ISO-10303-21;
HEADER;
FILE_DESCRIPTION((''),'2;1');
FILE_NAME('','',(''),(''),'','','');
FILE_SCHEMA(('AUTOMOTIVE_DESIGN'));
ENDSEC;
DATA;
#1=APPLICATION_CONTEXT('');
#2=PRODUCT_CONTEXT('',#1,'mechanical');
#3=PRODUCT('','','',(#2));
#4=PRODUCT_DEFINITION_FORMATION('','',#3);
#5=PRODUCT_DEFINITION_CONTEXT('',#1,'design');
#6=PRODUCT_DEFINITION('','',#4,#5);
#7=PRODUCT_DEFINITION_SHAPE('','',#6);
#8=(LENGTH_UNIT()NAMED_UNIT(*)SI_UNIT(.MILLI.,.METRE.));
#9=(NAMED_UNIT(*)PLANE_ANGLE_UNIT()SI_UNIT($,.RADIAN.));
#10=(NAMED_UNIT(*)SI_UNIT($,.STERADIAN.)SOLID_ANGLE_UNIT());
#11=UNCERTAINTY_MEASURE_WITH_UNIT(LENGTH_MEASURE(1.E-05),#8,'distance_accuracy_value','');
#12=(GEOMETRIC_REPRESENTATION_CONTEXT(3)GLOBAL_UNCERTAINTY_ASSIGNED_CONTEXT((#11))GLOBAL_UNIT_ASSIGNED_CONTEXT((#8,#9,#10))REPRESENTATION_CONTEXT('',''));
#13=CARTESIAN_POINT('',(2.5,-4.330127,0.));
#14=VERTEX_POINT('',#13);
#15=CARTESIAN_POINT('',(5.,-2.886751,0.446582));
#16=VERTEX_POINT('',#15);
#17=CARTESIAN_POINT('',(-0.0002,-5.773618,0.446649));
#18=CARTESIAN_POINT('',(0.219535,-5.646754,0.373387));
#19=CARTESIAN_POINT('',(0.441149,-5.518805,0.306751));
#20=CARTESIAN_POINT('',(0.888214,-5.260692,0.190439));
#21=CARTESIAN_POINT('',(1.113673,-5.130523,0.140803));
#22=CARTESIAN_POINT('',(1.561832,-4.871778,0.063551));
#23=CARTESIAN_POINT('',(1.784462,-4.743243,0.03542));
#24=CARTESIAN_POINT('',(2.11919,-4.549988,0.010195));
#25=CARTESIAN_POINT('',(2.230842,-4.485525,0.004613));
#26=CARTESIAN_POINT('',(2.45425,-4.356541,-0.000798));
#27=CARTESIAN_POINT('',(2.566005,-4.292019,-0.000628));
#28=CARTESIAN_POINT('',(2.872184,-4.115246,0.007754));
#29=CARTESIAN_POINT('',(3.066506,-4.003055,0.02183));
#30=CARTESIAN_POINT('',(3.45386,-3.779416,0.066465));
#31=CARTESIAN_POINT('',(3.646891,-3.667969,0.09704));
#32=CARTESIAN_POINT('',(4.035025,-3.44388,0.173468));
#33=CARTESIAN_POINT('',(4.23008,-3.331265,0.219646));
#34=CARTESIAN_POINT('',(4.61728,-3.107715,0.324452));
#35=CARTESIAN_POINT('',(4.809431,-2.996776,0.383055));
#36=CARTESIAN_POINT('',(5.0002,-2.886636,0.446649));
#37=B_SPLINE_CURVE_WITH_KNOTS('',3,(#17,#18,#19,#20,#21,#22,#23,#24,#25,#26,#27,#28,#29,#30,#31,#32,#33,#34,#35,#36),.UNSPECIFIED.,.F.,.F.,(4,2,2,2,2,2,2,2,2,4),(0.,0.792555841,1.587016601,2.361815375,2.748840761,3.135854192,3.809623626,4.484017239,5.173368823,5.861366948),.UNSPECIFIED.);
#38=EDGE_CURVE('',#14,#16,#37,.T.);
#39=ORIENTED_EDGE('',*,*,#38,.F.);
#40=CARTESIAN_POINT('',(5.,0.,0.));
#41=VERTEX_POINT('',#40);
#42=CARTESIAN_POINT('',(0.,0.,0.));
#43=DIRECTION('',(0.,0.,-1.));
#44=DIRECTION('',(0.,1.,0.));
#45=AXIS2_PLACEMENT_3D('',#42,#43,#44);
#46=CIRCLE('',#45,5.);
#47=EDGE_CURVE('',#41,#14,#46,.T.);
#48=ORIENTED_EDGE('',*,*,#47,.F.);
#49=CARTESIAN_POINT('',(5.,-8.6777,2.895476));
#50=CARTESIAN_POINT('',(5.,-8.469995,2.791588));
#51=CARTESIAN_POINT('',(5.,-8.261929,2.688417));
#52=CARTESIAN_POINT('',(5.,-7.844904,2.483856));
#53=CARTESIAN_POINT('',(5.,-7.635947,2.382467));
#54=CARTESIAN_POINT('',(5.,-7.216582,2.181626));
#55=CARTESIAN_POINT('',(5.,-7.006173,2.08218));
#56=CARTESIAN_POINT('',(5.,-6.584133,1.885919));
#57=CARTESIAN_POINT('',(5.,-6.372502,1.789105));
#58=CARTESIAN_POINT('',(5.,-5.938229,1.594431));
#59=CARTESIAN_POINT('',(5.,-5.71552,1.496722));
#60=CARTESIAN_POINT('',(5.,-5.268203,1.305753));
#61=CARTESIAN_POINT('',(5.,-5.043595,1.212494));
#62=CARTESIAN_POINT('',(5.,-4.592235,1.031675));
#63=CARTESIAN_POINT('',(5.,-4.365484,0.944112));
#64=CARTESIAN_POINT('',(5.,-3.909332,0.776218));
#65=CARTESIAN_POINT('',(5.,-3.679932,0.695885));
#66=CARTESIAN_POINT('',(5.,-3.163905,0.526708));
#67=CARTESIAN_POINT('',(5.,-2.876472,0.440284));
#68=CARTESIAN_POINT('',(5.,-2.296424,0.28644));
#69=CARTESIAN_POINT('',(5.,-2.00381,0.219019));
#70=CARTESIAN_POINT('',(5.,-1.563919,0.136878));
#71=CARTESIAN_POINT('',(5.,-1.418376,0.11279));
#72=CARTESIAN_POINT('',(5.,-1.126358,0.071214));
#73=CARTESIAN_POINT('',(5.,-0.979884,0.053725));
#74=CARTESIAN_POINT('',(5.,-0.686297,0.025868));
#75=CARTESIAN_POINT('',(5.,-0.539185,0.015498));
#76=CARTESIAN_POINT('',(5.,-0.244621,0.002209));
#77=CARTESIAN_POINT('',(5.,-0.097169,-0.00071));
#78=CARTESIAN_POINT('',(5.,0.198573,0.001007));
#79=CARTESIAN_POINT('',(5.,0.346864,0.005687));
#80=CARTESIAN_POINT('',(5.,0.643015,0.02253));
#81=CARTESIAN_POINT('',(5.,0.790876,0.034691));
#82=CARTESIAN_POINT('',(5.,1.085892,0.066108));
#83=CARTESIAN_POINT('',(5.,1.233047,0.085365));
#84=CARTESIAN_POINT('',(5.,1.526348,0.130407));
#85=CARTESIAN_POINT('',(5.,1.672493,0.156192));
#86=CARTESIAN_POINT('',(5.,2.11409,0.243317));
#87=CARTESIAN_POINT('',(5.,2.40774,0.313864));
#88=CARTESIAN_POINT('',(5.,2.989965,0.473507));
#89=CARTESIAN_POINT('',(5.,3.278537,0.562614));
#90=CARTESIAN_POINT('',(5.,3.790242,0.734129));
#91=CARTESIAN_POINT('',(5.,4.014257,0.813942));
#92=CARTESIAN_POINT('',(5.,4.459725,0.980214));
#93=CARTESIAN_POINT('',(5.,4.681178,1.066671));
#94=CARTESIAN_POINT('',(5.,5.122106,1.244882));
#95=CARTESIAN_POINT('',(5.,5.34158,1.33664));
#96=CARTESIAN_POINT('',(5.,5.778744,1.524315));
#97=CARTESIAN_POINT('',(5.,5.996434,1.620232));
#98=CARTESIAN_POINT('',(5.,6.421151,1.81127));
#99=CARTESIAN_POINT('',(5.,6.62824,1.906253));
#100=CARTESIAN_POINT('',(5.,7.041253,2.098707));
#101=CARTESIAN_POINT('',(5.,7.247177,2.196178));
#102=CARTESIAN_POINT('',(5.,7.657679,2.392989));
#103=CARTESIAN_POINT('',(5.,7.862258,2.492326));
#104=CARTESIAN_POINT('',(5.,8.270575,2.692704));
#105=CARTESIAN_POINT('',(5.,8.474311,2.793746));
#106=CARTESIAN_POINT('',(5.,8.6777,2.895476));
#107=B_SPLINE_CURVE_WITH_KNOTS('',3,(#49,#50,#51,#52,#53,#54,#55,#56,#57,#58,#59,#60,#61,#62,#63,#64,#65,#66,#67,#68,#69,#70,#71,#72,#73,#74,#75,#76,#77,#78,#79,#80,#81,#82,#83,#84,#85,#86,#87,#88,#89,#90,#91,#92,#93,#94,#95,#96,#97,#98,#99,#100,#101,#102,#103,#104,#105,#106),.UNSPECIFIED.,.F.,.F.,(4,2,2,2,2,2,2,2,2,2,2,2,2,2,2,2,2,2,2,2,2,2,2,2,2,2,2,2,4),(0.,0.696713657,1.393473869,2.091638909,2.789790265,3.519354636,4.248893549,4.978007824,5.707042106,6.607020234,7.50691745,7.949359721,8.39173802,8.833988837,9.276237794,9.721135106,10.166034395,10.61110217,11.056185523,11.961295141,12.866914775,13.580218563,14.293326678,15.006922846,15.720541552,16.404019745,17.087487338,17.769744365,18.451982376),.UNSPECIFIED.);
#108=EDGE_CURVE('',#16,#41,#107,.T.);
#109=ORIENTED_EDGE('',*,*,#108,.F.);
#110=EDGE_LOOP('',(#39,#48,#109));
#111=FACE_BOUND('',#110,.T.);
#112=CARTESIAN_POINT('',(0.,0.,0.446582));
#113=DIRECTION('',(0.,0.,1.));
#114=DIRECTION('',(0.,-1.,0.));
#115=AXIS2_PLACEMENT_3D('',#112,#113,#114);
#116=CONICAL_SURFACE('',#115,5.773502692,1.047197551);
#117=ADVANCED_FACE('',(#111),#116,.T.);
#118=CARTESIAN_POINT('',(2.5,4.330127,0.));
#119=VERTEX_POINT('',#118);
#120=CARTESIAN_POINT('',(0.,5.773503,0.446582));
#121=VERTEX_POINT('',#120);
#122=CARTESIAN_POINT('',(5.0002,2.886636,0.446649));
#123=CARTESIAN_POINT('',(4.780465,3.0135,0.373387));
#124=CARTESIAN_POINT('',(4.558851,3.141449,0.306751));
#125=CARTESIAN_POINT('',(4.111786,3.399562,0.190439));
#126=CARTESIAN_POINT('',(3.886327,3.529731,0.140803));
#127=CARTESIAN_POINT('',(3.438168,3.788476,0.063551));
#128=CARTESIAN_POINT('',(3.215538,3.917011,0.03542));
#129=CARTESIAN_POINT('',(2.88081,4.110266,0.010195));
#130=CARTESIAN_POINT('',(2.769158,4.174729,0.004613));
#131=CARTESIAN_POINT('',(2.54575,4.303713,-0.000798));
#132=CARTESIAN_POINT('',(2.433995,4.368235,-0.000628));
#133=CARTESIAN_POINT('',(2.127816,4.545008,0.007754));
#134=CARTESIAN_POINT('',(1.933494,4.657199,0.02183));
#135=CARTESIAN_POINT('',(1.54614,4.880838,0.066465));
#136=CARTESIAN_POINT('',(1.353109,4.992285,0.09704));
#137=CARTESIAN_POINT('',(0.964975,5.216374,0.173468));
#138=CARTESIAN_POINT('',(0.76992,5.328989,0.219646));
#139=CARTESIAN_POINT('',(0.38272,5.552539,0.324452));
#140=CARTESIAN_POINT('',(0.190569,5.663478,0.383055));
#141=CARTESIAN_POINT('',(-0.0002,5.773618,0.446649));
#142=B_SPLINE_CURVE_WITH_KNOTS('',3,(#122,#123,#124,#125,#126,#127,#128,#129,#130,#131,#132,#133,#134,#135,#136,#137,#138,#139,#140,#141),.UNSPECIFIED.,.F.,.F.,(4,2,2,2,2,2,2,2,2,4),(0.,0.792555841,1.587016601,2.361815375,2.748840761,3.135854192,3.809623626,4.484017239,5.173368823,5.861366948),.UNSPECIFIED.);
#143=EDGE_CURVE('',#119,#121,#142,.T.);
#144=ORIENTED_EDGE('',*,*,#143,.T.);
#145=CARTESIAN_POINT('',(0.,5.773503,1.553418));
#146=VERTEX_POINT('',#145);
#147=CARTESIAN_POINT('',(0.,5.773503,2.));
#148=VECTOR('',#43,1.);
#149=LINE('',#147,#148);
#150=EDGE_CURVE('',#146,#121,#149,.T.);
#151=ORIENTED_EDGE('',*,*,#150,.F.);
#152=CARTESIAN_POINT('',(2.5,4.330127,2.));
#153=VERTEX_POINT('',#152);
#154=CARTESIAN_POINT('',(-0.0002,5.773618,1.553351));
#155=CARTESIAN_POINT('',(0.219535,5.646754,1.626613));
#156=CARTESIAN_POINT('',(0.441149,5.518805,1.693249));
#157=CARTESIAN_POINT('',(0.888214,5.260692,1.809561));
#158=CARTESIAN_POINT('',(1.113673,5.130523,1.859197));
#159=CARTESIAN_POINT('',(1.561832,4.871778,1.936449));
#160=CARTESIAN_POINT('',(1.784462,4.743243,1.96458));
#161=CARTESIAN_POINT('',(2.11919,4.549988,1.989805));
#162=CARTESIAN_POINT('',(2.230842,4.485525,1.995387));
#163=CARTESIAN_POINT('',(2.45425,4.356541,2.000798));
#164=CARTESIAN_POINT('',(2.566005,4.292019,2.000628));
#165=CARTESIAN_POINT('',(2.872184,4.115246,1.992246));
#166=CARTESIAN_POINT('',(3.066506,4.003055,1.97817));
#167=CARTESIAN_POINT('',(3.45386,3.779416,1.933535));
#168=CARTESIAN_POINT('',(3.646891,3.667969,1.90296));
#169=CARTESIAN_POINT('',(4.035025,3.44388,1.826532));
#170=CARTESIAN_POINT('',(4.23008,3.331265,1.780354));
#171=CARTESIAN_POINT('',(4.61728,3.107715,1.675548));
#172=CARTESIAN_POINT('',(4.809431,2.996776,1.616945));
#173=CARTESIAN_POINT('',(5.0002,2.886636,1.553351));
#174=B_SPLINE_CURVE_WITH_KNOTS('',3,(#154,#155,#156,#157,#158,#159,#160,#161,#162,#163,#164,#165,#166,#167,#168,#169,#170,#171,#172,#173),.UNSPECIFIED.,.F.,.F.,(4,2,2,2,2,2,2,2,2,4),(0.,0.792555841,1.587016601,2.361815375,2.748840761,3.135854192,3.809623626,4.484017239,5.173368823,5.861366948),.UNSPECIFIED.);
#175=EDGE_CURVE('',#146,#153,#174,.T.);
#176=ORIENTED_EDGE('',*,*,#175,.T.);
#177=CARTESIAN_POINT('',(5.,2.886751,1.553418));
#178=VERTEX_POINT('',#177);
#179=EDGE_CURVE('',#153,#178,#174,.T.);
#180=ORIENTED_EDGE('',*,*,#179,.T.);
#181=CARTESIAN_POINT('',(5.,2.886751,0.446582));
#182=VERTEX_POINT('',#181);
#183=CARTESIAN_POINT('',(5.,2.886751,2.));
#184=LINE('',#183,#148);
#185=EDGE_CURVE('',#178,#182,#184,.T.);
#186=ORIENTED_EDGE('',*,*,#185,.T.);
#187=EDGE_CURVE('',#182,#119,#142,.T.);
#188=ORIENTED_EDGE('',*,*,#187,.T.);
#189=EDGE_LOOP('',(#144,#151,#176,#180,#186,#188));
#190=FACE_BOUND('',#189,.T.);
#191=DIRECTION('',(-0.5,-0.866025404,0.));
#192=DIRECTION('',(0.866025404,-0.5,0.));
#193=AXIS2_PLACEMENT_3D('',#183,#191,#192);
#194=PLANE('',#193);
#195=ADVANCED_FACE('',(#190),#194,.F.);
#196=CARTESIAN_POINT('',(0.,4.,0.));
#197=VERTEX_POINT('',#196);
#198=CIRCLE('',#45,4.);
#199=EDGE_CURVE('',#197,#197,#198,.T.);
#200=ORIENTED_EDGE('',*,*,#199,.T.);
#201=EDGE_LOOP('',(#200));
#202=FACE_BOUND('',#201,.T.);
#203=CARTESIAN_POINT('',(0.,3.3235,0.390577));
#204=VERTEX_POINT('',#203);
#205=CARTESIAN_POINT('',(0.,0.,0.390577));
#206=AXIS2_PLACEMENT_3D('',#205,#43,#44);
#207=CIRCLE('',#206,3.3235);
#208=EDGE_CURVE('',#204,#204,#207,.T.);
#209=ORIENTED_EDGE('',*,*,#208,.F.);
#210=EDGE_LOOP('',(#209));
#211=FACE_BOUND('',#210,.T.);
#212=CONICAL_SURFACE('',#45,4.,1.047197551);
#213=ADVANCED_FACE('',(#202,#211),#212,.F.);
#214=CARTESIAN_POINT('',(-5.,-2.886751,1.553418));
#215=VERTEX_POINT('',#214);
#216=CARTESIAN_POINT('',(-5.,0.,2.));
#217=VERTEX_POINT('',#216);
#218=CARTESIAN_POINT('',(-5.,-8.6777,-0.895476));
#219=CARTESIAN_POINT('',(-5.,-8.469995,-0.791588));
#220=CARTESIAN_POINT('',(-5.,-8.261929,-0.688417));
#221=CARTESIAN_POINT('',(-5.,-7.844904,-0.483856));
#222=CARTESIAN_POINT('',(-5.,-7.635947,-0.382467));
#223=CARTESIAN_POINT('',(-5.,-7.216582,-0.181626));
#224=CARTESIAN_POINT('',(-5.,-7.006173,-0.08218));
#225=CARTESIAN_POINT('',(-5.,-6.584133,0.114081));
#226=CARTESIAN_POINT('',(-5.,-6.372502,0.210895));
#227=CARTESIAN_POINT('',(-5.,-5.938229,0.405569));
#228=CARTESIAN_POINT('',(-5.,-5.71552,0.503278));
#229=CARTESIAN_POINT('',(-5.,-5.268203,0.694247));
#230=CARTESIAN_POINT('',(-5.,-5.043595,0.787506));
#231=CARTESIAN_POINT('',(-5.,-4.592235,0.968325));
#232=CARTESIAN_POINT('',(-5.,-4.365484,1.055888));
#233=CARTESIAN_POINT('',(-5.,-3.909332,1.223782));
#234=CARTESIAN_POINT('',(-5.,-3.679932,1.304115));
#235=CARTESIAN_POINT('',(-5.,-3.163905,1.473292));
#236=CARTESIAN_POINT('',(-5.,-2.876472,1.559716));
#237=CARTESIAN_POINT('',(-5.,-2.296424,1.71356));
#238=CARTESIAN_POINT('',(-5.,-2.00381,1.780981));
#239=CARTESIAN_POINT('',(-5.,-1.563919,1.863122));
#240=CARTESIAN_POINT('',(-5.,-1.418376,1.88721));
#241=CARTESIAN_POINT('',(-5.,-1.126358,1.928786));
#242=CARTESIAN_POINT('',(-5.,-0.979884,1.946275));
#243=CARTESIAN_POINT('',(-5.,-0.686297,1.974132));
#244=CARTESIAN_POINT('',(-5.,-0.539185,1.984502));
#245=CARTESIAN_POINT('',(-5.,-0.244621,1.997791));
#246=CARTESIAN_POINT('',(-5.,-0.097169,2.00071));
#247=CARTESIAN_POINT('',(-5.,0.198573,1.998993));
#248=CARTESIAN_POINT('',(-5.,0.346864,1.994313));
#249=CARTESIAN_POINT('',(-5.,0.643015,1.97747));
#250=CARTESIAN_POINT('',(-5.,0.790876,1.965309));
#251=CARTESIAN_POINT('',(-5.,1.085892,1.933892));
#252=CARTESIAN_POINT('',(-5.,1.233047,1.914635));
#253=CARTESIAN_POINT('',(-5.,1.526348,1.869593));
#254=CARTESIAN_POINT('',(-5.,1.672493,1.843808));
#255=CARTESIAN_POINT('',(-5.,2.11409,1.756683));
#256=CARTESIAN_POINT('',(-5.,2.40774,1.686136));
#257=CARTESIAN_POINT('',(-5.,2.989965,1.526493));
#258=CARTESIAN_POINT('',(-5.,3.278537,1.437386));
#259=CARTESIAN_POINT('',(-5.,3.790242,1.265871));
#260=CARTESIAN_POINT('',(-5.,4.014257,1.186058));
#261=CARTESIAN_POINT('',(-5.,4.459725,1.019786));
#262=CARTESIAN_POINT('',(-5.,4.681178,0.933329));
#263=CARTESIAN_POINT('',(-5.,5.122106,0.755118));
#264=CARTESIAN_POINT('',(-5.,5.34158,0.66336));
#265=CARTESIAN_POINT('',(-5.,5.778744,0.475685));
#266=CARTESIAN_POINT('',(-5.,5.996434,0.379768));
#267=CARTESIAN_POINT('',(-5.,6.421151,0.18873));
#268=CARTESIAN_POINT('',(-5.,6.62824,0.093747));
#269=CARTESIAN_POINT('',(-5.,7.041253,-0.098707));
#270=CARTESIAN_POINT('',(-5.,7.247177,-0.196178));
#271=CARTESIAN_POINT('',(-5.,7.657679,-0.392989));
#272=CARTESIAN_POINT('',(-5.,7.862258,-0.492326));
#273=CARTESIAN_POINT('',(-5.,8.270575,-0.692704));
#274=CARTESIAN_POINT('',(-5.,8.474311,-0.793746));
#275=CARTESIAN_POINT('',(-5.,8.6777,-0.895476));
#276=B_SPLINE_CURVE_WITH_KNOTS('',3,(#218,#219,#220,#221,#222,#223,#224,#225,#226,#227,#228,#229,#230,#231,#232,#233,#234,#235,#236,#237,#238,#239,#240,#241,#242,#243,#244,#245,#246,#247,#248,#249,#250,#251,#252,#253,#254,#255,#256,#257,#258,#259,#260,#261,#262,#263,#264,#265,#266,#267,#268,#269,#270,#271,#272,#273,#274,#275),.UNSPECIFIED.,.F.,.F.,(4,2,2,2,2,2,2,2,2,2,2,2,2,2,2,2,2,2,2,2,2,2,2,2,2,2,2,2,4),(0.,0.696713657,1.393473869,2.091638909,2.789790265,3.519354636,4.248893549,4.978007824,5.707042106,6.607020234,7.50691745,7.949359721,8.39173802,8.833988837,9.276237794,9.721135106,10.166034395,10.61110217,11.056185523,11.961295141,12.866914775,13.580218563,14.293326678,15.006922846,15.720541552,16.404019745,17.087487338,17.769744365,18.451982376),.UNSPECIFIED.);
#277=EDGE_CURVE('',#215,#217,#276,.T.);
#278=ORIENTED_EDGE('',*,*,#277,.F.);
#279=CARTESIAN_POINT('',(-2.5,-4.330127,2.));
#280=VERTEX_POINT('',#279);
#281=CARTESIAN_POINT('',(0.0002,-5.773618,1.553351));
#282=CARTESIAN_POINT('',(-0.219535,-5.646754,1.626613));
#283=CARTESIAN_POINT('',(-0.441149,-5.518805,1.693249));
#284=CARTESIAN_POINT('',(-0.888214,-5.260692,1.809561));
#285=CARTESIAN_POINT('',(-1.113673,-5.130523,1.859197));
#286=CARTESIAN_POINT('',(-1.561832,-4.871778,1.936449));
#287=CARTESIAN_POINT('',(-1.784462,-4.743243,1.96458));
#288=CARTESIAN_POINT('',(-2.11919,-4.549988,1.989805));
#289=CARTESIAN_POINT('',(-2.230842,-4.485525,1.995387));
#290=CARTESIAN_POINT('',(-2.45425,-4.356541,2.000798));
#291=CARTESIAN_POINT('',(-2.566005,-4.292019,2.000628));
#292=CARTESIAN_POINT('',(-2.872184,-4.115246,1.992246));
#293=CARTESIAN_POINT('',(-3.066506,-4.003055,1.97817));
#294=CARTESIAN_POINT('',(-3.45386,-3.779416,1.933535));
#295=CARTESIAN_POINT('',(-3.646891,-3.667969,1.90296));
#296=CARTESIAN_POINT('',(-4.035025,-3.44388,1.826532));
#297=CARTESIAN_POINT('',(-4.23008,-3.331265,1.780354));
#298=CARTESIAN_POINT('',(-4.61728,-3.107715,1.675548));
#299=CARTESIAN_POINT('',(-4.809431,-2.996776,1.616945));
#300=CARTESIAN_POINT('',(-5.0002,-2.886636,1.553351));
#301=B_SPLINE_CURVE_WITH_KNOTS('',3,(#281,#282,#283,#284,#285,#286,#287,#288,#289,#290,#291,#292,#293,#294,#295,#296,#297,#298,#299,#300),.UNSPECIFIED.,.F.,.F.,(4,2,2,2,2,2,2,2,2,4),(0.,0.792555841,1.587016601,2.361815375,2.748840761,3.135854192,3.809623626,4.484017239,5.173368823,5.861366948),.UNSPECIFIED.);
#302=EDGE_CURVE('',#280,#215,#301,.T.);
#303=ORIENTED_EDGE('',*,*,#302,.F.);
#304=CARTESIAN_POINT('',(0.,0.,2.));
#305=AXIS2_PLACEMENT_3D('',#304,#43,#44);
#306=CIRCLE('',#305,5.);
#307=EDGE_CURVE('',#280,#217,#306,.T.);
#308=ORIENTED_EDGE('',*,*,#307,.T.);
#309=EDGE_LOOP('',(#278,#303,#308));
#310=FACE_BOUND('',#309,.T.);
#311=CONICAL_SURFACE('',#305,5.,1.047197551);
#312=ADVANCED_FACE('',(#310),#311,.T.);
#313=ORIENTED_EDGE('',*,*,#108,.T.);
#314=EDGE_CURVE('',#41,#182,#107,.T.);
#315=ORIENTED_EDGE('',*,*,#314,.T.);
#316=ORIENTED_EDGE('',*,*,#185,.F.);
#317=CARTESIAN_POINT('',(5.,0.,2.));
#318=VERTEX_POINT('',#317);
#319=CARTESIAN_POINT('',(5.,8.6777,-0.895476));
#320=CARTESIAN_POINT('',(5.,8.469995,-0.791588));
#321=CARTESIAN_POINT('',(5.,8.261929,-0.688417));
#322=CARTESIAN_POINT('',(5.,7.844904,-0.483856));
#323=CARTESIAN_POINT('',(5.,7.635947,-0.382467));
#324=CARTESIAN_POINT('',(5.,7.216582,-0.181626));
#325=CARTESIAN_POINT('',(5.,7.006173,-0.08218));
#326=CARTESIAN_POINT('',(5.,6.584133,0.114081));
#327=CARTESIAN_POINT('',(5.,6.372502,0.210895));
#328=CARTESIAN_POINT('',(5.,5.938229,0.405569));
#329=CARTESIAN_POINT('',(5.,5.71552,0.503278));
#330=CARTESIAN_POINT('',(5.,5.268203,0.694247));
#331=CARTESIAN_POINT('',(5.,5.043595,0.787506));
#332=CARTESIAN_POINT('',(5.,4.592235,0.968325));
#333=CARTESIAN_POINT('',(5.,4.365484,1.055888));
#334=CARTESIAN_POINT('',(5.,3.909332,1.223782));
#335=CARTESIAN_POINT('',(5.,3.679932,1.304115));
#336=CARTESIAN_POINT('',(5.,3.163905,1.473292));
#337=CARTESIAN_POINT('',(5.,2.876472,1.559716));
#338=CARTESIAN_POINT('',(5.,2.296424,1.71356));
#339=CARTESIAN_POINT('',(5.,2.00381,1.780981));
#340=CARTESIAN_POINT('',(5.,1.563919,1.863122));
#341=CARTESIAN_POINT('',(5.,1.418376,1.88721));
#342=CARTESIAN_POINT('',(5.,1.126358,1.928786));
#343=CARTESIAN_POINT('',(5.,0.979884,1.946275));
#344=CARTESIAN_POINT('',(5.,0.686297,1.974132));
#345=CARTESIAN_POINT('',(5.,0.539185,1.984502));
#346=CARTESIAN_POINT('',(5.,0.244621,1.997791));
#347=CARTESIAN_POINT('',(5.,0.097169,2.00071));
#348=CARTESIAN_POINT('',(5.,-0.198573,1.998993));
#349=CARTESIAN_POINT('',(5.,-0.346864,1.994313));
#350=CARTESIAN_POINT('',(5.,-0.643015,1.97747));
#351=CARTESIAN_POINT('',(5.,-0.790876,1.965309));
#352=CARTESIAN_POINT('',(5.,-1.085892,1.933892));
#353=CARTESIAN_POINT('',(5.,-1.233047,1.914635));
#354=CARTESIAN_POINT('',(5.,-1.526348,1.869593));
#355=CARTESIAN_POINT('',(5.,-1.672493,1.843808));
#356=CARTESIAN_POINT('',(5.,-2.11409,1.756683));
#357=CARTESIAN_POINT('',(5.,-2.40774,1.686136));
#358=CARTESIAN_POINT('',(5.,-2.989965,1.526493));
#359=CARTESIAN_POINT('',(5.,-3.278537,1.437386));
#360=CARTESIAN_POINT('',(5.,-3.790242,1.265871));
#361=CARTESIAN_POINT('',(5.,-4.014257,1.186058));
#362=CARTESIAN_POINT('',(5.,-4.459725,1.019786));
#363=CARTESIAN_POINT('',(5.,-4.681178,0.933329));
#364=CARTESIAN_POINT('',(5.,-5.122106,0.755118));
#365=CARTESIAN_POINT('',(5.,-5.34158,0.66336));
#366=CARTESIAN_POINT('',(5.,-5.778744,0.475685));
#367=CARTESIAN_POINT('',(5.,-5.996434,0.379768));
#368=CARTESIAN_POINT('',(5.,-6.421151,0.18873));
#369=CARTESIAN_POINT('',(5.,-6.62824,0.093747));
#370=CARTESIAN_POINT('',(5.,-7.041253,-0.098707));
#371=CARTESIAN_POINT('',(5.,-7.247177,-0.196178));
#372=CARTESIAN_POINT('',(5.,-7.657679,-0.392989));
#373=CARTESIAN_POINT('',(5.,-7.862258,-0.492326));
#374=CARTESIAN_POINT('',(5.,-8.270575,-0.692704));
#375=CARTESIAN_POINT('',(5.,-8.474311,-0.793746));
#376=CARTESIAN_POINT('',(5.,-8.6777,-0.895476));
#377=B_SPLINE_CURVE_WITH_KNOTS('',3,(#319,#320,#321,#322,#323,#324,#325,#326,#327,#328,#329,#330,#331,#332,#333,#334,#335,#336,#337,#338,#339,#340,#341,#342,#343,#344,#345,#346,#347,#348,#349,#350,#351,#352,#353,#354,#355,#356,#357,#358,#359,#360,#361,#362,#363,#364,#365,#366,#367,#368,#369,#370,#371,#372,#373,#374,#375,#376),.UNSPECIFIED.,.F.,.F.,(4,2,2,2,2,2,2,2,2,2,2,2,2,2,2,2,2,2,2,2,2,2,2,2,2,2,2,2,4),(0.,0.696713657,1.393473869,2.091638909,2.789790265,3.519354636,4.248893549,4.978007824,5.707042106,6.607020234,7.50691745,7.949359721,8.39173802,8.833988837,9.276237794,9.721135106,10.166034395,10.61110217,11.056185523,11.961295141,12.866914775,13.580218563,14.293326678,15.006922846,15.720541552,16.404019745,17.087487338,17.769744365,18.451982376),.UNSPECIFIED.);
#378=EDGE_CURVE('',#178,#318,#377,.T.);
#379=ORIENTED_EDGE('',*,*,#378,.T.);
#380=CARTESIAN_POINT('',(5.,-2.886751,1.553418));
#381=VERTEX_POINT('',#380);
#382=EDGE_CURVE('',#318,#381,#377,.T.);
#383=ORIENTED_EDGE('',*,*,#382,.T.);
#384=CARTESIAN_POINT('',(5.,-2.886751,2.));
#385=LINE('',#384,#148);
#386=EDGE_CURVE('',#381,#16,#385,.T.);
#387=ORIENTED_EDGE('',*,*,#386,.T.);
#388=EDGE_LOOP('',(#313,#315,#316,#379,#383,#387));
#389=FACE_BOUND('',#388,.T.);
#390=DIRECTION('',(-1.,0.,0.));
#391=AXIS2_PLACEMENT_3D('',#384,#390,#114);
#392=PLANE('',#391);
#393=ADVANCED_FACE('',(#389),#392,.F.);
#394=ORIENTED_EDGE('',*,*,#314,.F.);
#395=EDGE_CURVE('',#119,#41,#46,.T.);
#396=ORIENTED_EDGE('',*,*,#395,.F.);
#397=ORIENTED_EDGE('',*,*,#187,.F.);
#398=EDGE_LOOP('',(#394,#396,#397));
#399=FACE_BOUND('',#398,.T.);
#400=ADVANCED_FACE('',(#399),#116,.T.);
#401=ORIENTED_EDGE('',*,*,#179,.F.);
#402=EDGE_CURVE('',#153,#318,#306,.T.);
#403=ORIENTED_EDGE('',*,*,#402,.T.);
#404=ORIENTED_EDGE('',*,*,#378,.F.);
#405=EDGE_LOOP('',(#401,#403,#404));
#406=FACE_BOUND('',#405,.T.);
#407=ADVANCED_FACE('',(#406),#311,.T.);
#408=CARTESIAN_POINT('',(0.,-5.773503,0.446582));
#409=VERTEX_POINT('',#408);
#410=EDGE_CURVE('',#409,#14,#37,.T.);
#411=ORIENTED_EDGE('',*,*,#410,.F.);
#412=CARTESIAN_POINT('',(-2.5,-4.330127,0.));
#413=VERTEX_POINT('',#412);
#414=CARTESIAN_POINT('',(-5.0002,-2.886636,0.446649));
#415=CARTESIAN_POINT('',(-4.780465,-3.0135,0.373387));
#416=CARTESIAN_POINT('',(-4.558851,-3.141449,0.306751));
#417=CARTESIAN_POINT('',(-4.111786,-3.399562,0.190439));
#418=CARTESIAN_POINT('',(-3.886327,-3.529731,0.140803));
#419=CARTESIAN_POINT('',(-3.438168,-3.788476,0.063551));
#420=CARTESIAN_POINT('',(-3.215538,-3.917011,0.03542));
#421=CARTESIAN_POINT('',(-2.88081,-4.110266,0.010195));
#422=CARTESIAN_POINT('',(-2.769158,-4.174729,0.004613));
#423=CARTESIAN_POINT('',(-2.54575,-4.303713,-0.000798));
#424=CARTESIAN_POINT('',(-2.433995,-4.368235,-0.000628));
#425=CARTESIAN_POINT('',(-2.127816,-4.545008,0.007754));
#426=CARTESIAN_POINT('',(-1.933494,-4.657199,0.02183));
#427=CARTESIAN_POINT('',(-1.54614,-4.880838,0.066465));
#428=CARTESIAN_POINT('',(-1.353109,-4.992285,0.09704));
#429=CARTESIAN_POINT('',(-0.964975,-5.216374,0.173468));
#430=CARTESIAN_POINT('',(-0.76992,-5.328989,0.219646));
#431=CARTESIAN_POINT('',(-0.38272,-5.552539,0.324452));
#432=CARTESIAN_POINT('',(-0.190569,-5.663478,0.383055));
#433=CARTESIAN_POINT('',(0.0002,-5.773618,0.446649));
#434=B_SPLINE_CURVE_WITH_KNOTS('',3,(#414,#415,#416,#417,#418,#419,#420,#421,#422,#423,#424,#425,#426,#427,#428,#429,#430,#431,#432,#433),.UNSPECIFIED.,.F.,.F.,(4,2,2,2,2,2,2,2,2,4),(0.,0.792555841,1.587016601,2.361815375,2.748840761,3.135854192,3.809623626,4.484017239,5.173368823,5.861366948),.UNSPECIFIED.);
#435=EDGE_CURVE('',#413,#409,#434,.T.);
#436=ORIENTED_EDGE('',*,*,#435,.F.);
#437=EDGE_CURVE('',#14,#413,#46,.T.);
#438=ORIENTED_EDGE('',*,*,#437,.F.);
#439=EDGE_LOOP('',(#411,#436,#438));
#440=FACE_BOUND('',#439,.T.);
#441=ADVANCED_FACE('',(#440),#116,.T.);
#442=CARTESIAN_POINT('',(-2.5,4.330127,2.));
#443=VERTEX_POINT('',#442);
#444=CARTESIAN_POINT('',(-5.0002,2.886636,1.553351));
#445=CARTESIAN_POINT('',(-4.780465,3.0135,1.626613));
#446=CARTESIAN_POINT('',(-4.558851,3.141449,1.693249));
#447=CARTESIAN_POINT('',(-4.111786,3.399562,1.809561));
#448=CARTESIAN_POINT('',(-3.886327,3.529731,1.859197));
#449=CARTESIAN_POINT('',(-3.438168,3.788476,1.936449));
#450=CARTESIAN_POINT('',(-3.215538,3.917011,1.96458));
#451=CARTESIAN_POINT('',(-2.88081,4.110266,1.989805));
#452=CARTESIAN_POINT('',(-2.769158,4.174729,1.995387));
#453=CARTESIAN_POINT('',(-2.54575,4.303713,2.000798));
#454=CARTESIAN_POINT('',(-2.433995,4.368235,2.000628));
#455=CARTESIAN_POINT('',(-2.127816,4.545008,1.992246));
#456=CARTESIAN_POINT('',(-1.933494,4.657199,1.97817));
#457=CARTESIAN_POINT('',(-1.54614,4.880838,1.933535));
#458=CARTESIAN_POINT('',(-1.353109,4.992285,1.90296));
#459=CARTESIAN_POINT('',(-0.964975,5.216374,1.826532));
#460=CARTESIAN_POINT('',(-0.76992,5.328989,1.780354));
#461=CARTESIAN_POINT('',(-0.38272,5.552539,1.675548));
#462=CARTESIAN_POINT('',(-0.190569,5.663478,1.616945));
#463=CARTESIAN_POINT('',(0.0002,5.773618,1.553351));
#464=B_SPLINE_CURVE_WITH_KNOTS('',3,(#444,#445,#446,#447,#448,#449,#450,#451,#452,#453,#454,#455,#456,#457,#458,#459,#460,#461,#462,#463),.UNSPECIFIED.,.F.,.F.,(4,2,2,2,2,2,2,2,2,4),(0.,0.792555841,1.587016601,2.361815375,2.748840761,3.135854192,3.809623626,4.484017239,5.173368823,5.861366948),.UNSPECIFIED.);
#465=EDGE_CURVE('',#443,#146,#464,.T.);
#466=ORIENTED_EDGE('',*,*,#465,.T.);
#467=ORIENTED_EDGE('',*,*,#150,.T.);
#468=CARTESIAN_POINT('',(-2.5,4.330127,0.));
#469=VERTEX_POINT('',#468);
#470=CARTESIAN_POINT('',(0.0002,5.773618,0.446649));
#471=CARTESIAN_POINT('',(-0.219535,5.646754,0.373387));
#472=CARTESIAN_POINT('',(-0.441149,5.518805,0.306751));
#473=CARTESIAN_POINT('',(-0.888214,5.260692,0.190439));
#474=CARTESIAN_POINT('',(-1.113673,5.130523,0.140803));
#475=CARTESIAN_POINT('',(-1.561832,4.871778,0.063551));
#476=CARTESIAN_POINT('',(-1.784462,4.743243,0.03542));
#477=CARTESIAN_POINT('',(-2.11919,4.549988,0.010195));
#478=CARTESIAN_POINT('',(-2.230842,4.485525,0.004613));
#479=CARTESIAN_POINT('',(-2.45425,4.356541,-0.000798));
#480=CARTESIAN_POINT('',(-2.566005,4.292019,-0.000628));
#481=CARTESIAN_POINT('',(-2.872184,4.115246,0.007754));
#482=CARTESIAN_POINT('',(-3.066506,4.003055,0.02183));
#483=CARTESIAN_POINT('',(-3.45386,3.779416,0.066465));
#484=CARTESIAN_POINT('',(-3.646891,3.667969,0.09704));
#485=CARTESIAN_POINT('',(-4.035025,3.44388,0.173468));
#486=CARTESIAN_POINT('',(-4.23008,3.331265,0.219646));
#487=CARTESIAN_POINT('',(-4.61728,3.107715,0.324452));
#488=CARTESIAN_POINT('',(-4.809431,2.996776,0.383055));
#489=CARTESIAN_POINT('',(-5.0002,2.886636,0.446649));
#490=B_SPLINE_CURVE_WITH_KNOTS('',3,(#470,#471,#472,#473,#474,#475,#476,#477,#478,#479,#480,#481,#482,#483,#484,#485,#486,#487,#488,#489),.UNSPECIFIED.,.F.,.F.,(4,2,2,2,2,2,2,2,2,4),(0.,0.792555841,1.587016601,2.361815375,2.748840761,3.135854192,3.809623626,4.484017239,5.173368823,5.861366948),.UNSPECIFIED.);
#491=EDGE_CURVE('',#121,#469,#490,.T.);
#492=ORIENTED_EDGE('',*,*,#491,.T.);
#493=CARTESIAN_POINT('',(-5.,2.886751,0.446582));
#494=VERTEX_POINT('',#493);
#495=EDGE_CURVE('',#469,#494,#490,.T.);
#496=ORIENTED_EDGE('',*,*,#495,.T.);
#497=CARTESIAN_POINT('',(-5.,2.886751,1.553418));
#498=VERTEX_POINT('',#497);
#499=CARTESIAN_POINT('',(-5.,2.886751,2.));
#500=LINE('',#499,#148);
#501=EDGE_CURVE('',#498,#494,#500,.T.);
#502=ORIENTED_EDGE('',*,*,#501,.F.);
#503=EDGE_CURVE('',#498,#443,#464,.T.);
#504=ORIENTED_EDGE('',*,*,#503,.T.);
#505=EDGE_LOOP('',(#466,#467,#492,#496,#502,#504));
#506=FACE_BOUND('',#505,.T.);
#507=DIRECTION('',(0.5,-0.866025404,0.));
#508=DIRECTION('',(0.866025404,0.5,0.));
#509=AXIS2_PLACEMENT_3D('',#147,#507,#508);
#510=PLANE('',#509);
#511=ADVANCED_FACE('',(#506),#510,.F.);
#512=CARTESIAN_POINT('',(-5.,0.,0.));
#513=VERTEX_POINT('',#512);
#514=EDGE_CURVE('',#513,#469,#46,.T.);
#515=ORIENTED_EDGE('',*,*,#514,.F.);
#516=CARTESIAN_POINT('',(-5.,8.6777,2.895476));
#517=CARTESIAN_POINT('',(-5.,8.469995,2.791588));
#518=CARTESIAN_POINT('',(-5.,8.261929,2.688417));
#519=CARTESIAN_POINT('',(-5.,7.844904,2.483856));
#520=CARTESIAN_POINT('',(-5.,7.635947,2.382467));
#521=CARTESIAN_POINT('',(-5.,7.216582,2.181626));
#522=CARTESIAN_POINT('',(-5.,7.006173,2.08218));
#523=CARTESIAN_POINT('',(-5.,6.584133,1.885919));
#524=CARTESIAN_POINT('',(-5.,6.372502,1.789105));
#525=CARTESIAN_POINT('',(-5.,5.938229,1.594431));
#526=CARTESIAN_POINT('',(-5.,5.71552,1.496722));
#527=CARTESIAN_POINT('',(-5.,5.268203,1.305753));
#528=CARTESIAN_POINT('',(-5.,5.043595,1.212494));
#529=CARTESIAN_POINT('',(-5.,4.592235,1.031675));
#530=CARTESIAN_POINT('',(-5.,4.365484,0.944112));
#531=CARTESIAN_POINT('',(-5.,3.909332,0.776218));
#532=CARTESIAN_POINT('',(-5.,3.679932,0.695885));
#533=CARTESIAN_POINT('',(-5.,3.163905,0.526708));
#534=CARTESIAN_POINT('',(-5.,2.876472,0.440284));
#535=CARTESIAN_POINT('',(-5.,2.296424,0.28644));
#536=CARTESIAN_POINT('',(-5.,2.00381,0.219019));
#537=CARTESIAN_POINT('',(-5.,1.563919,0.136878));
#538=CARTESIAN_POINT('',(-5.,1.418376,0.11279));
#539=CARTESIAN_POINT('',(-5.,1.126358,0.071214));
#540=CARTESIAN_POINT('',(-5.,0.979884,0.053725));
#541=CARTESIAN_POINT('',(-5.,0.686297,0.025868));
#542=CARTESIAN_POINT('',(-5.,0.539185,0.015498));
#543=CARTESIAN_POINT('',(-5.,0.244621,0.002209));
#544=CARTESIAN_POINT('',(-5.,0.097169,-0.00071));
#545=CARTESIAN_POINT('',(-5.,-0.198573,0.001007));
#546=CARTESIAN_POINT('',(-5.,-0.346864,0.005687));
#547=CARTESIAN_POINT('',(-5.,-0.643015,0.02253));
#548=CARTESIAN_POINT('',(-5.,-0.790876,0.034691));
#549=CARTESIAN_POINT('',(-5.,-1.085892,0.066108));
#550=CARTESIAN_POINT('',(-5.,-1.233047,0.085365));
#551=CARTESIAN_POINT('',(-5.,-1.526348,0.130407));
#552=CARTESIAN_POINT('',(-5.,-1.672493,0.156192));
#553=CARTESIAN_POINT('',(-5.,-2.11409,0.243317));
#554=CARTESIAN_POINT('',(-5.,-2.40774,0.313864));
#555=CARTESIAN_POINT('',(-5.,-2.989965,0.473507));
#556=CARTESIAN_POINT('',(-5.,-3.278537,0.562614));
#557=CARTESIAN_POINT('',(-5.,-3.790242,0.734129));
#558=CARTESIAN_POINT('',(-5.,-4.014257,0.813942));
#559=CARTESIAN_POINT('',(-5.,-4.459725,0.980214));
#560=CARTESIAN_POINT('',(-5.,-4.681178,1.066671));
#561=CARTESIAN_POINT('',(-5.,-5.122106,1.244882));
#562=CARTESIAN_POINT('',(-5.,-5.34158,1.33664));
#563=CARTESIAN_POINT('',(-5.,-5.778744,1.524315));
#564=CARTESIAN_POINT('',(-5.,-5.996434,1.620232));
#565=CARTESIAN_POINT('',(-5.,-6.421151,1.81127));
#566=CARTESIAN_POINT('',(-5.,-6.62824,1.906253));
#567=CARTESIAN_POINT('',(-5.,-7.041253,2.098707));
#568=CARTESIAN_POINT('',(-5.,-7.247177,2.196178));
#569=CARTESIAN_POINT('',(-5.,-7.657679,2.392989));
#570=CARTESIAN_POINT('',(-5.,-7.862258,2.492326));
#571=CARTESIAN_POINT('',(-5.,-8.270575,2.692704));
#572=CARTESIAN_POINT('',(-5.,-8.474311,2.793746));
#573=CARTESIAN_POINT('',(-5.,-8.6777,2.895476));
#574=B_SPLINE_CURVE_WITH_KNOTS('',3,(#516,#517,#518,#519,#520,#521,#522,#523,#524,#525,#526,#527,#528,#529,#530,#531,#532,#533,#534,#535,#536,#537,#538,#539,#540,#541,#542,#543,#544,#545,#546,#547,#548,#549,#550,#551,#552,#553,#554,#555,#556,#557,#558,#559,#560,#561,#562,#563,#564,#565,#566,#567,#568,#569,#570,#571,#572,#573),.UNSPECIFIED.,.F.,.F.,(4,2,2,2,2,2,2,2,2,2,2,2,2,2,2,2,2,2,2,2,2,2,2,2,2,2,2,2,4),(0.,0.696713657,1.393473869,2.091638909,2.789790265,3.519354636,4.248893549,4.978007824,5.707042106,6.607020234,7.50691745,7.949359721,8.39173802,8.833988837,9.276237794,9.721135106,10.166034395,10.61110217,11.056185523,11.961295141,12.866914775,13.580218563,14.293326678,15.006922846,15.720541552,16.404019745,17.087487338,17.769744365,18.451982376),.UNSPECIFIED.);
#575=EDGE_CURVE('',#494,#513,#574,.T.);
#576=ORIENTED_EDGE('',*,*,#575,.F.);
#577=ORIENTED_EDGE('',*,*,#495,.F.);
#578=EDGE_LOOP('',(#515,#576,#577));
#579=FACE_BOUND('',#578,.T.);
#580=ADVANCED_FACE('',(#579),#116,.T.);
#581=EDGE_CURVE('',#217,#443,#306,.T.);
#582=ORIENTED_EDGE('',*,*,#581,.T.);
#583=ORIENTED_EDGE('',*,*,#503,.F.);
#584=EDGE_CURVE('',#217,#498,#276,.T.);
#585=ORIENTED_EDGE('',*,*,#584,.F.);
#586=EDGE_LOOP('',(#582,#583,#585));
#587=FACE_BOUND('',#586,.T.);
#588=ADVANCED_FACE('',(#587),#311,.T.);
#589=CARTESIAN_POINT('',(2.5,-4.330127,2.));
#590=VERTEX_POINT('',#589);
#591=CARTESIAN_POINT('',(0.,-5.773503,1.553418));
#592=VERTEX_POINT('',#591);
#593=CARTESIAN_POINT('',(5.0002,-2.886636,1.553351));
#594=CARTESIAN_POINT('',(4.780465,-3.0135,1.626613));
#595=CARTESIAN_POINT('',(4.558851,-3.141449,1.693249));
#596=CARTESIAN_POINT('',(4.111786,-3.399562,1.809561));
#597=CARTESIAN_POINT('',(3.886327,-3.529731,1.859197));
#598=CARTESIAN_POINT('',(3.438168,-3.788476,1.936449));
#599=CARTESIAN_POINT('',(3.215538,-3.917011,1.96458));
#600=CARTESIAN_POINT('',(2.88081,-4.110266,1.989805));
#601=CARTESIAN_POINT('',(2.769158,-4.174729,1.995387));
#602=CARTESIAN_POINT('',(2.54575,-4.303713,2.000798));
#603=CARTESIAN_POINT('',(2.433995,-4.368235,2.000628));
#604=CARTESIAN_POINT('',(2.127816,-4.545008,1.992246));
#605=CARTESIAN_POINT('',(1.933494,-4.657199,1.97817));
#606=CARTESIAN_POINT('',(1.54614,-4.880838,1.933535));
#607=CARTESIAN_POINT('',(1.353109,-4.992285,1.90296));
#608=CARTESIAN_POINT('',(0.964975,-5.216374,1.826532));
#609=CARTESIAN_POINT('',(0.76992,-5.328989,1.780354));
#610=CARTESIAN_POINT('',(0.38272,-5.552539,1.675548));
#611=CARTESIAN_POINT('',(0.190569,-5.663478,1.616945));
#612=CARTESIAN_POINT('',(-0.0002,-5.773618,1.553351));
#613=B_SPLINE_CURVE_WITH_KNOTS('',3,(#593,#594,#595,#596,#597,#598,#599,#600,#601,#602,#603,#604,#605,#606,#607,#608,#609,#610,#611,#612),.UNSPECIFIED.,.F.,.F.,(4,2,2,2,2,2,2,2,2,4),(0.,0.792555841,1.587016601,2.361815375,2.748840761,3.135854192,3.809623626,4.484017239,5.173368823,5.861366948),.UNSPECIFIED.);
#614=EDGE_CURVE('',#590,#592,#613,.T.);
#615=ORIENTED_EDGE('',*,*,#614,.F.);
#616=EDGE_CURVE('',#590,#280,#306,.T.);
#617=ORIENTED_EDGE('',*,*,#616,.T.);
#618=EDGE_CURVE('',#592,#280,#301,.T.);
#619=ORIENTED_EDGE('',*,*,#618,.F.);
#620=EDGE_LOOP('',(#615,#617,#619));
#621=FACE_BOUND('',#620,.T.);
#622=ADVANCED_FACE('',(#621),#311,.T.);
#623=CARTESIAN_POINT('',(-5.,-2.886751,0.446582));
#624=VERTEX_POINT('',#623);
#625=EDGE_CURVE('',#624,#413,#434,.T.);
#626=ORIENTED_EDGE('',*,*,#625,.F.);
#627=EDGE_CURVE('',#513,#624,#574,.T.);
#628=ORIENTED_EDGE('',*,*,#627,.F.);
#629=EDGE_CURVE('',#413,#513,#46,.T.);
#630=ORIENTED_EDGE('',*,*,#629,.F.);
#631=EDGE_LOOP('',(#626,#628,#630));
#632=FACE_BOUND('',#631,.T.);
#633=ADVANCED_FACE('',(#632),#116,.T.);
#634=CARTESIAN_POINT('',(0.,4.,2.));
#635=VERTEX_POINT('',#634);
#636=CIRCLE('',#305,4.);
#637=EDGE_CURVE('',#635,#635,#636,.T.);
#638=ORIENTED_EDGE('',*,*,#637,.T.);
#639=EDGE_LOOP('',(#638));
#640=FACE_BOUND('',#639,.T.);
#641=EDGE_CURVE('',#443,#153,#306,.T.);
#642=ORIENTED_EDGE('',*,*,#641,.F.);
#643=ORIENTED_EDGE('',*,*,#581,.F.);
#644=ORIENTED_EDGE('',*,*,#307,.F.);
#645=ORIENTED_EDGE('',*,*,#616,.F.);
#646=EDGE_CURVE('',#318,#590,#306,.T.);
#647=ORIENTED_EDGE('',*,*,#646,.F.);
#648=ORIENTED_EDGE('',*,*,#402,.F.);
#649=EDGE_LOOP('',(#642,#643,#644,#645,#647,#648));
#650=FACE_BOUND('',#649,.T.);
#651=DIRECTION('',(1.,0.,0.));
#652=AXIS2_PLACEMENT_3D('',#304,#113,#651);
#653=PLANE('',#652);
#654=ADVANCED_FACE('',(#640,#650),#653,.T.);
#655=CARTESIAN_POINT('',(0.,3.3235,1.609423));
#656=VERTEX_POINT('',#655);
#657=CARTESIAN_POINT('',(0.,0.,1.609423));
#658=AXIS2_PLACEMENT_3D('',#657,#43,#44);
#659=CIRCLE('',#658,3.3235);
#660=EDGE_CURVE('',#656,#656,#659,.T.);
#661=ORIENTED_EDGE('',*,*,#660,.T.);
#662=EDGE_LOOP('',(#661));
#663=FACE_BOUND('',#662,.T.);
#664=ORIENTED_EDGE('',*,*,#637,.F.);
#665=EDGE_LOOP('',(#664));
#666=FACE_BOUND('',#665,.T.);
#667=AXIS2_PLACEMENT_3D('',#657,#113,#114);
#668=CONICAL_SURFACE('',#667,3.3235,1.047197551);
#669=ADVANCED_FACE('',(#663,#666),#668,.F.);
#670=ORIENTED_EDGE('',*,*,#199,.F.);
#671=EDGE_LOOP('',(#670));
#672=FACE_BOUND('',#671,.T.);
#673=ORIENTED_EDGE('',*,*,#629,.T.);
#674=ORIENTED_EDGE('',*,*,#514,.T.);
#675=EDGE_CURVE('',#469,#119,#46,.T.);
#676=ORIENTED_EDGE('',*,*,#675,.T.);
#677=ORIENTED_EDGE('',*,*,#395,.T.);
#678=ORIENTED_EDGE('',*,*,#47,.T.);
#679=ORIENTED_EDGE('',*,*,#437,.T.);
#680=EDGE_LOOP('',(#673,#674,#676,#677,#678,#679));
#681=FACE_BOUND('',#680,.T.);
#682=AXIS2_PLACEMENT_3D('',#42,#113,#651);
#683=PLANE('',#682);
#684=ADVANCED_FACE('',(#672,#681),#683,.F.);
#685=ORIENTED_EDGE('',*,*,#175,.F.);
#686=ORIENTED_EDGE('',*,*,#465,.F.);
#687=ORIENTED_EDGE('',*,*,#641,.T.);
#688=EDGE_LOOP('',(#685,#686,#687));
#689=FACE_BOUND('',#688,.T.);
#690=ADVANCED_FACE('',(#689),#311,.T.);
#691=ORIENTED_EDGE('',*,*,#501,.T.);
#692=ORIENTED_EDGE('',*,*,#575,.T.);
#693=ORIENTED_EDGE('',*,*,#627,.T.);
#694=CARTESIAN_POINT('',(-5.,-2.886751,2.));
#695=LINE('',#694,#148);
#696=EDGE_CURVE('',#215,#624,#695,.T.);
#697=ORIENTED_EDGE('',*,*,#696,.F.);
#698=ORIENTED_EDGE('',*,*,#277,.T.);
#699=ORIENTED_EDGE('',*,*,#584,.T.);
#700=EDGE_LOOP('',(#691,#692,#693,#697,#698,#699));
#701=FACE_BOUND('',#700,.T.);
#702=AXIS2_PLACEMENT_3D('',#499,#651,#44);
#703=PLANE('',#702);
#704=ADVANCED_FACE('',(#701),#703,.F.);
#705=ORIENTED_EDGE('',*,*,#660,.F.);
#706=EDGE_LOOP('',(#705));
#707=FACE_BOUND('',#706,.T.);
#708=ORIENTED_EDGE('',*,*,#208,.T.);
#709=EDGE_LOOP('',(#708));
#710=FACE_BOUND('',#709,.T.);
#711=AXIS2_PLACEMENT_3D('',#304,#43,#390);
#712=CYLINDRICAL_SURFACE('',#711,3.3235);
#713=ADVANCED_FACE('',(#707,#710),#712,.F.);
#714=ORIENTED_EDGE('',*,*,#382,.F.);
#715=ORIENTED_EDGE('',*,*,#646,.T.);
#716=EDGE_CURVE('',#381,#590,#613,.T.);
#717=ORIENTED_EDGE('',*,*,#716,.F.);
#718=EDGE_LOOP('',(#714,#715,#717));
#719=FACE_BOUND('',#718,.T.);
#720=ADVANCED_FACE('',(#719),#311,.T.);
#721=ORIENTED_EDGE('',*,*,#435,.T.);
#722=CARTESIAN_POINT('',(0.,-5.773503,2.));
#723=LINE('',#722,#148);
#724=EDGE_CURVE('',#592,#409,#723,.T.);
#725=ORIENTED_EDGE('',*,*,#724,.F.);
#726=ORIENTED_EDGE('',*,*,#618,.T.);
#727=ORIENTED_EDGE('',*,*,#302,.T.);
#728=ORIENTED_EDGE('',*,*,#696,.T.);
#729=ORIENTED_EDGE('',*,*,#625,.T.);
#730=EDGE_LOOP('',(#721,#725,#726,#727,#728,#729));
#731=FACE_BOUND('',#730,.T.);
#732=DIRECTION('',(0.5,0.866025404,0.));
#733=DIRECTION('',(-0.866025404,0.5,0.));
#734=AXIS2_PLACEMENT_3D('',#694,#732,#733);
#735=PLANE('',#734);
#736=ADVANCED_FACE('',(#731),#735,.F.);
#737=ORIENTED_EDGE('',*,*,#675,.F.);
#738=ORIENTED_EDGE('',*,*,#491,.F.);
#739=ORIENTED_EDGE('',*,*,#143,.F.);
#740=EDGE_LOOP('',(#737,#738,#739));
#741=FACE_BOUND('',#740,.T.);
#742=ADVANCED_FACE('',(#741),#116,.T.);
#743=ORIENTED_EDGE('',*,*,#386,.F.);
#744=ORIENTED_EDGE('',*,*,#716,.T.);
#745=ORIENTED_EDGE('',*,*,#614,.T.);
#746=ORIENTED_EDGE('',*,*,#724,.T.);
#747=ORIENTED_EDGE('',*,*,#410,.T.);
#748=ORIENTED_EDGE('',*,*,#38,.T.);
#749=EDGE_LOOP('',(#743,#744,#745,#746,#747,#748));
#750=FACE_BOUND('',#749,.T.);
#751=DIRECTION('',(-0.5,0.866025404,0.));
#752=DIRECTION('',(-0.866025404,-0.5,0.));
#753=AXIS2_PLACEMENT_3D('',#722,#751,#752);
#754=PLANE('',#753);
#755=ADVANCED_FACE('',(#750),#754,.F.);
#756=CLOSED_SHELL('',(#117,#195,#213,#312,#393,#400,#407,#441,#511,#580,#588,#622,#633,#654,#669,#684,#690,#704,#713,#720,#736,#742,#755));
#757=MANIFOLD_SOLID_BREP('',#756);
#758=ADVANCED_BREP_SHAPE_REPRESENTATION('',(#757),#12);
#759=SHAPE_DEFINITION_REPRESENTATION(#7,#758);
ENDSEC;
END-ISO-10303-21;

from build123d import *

# Parameters (mm, degrees)
SKETCH1_R           = 3.3235
BOSS_EXTRUDE1_DEPTH = 2


with BuildPart() as part:
    # Sketch1 → Boss-Extrude1 (new body)
    with BuildSketch(Plane.XY):
        Polygon((0, 5.773502692), (-5, 2.886751346), (-5, -2.886751346), (0, -5.773502692), (5, -2.886751346), (5, 2.886751346), align=None)
        Circle(SKETCH1_R, mode=Mode.SUBTRACT)
    extrude(amount=BOSS_EXTRUDE1_DEPTH)

    # Sketch2 → Cut-Revolve1 (revolve, cut)
    with BuildSketch(Plane(origin=(0, 0, 0), x_dir=(0, 0, -1), z_dir=(1, 0, 0))):
        Polygon((0, 5.773502692), (-0.446581987, 5.773502692), (0, 5), align=None)
        Polygon((0, 3.3235), (0, 4), (-0.390577457, 3.3235), align=None)
        Polygon((-1.609422543, 3.3235), (-2, 3.3235), (-2, 4), align=None)
        Polygon((-2, 5), (-2, 5.773502692), (-1.553418013, 5.773502692), align=None)
    revolve(axis=Axis((0, 0, 0), (0, 0, 1)), mode=Mode.SUBTRACT)


solid = part.part
